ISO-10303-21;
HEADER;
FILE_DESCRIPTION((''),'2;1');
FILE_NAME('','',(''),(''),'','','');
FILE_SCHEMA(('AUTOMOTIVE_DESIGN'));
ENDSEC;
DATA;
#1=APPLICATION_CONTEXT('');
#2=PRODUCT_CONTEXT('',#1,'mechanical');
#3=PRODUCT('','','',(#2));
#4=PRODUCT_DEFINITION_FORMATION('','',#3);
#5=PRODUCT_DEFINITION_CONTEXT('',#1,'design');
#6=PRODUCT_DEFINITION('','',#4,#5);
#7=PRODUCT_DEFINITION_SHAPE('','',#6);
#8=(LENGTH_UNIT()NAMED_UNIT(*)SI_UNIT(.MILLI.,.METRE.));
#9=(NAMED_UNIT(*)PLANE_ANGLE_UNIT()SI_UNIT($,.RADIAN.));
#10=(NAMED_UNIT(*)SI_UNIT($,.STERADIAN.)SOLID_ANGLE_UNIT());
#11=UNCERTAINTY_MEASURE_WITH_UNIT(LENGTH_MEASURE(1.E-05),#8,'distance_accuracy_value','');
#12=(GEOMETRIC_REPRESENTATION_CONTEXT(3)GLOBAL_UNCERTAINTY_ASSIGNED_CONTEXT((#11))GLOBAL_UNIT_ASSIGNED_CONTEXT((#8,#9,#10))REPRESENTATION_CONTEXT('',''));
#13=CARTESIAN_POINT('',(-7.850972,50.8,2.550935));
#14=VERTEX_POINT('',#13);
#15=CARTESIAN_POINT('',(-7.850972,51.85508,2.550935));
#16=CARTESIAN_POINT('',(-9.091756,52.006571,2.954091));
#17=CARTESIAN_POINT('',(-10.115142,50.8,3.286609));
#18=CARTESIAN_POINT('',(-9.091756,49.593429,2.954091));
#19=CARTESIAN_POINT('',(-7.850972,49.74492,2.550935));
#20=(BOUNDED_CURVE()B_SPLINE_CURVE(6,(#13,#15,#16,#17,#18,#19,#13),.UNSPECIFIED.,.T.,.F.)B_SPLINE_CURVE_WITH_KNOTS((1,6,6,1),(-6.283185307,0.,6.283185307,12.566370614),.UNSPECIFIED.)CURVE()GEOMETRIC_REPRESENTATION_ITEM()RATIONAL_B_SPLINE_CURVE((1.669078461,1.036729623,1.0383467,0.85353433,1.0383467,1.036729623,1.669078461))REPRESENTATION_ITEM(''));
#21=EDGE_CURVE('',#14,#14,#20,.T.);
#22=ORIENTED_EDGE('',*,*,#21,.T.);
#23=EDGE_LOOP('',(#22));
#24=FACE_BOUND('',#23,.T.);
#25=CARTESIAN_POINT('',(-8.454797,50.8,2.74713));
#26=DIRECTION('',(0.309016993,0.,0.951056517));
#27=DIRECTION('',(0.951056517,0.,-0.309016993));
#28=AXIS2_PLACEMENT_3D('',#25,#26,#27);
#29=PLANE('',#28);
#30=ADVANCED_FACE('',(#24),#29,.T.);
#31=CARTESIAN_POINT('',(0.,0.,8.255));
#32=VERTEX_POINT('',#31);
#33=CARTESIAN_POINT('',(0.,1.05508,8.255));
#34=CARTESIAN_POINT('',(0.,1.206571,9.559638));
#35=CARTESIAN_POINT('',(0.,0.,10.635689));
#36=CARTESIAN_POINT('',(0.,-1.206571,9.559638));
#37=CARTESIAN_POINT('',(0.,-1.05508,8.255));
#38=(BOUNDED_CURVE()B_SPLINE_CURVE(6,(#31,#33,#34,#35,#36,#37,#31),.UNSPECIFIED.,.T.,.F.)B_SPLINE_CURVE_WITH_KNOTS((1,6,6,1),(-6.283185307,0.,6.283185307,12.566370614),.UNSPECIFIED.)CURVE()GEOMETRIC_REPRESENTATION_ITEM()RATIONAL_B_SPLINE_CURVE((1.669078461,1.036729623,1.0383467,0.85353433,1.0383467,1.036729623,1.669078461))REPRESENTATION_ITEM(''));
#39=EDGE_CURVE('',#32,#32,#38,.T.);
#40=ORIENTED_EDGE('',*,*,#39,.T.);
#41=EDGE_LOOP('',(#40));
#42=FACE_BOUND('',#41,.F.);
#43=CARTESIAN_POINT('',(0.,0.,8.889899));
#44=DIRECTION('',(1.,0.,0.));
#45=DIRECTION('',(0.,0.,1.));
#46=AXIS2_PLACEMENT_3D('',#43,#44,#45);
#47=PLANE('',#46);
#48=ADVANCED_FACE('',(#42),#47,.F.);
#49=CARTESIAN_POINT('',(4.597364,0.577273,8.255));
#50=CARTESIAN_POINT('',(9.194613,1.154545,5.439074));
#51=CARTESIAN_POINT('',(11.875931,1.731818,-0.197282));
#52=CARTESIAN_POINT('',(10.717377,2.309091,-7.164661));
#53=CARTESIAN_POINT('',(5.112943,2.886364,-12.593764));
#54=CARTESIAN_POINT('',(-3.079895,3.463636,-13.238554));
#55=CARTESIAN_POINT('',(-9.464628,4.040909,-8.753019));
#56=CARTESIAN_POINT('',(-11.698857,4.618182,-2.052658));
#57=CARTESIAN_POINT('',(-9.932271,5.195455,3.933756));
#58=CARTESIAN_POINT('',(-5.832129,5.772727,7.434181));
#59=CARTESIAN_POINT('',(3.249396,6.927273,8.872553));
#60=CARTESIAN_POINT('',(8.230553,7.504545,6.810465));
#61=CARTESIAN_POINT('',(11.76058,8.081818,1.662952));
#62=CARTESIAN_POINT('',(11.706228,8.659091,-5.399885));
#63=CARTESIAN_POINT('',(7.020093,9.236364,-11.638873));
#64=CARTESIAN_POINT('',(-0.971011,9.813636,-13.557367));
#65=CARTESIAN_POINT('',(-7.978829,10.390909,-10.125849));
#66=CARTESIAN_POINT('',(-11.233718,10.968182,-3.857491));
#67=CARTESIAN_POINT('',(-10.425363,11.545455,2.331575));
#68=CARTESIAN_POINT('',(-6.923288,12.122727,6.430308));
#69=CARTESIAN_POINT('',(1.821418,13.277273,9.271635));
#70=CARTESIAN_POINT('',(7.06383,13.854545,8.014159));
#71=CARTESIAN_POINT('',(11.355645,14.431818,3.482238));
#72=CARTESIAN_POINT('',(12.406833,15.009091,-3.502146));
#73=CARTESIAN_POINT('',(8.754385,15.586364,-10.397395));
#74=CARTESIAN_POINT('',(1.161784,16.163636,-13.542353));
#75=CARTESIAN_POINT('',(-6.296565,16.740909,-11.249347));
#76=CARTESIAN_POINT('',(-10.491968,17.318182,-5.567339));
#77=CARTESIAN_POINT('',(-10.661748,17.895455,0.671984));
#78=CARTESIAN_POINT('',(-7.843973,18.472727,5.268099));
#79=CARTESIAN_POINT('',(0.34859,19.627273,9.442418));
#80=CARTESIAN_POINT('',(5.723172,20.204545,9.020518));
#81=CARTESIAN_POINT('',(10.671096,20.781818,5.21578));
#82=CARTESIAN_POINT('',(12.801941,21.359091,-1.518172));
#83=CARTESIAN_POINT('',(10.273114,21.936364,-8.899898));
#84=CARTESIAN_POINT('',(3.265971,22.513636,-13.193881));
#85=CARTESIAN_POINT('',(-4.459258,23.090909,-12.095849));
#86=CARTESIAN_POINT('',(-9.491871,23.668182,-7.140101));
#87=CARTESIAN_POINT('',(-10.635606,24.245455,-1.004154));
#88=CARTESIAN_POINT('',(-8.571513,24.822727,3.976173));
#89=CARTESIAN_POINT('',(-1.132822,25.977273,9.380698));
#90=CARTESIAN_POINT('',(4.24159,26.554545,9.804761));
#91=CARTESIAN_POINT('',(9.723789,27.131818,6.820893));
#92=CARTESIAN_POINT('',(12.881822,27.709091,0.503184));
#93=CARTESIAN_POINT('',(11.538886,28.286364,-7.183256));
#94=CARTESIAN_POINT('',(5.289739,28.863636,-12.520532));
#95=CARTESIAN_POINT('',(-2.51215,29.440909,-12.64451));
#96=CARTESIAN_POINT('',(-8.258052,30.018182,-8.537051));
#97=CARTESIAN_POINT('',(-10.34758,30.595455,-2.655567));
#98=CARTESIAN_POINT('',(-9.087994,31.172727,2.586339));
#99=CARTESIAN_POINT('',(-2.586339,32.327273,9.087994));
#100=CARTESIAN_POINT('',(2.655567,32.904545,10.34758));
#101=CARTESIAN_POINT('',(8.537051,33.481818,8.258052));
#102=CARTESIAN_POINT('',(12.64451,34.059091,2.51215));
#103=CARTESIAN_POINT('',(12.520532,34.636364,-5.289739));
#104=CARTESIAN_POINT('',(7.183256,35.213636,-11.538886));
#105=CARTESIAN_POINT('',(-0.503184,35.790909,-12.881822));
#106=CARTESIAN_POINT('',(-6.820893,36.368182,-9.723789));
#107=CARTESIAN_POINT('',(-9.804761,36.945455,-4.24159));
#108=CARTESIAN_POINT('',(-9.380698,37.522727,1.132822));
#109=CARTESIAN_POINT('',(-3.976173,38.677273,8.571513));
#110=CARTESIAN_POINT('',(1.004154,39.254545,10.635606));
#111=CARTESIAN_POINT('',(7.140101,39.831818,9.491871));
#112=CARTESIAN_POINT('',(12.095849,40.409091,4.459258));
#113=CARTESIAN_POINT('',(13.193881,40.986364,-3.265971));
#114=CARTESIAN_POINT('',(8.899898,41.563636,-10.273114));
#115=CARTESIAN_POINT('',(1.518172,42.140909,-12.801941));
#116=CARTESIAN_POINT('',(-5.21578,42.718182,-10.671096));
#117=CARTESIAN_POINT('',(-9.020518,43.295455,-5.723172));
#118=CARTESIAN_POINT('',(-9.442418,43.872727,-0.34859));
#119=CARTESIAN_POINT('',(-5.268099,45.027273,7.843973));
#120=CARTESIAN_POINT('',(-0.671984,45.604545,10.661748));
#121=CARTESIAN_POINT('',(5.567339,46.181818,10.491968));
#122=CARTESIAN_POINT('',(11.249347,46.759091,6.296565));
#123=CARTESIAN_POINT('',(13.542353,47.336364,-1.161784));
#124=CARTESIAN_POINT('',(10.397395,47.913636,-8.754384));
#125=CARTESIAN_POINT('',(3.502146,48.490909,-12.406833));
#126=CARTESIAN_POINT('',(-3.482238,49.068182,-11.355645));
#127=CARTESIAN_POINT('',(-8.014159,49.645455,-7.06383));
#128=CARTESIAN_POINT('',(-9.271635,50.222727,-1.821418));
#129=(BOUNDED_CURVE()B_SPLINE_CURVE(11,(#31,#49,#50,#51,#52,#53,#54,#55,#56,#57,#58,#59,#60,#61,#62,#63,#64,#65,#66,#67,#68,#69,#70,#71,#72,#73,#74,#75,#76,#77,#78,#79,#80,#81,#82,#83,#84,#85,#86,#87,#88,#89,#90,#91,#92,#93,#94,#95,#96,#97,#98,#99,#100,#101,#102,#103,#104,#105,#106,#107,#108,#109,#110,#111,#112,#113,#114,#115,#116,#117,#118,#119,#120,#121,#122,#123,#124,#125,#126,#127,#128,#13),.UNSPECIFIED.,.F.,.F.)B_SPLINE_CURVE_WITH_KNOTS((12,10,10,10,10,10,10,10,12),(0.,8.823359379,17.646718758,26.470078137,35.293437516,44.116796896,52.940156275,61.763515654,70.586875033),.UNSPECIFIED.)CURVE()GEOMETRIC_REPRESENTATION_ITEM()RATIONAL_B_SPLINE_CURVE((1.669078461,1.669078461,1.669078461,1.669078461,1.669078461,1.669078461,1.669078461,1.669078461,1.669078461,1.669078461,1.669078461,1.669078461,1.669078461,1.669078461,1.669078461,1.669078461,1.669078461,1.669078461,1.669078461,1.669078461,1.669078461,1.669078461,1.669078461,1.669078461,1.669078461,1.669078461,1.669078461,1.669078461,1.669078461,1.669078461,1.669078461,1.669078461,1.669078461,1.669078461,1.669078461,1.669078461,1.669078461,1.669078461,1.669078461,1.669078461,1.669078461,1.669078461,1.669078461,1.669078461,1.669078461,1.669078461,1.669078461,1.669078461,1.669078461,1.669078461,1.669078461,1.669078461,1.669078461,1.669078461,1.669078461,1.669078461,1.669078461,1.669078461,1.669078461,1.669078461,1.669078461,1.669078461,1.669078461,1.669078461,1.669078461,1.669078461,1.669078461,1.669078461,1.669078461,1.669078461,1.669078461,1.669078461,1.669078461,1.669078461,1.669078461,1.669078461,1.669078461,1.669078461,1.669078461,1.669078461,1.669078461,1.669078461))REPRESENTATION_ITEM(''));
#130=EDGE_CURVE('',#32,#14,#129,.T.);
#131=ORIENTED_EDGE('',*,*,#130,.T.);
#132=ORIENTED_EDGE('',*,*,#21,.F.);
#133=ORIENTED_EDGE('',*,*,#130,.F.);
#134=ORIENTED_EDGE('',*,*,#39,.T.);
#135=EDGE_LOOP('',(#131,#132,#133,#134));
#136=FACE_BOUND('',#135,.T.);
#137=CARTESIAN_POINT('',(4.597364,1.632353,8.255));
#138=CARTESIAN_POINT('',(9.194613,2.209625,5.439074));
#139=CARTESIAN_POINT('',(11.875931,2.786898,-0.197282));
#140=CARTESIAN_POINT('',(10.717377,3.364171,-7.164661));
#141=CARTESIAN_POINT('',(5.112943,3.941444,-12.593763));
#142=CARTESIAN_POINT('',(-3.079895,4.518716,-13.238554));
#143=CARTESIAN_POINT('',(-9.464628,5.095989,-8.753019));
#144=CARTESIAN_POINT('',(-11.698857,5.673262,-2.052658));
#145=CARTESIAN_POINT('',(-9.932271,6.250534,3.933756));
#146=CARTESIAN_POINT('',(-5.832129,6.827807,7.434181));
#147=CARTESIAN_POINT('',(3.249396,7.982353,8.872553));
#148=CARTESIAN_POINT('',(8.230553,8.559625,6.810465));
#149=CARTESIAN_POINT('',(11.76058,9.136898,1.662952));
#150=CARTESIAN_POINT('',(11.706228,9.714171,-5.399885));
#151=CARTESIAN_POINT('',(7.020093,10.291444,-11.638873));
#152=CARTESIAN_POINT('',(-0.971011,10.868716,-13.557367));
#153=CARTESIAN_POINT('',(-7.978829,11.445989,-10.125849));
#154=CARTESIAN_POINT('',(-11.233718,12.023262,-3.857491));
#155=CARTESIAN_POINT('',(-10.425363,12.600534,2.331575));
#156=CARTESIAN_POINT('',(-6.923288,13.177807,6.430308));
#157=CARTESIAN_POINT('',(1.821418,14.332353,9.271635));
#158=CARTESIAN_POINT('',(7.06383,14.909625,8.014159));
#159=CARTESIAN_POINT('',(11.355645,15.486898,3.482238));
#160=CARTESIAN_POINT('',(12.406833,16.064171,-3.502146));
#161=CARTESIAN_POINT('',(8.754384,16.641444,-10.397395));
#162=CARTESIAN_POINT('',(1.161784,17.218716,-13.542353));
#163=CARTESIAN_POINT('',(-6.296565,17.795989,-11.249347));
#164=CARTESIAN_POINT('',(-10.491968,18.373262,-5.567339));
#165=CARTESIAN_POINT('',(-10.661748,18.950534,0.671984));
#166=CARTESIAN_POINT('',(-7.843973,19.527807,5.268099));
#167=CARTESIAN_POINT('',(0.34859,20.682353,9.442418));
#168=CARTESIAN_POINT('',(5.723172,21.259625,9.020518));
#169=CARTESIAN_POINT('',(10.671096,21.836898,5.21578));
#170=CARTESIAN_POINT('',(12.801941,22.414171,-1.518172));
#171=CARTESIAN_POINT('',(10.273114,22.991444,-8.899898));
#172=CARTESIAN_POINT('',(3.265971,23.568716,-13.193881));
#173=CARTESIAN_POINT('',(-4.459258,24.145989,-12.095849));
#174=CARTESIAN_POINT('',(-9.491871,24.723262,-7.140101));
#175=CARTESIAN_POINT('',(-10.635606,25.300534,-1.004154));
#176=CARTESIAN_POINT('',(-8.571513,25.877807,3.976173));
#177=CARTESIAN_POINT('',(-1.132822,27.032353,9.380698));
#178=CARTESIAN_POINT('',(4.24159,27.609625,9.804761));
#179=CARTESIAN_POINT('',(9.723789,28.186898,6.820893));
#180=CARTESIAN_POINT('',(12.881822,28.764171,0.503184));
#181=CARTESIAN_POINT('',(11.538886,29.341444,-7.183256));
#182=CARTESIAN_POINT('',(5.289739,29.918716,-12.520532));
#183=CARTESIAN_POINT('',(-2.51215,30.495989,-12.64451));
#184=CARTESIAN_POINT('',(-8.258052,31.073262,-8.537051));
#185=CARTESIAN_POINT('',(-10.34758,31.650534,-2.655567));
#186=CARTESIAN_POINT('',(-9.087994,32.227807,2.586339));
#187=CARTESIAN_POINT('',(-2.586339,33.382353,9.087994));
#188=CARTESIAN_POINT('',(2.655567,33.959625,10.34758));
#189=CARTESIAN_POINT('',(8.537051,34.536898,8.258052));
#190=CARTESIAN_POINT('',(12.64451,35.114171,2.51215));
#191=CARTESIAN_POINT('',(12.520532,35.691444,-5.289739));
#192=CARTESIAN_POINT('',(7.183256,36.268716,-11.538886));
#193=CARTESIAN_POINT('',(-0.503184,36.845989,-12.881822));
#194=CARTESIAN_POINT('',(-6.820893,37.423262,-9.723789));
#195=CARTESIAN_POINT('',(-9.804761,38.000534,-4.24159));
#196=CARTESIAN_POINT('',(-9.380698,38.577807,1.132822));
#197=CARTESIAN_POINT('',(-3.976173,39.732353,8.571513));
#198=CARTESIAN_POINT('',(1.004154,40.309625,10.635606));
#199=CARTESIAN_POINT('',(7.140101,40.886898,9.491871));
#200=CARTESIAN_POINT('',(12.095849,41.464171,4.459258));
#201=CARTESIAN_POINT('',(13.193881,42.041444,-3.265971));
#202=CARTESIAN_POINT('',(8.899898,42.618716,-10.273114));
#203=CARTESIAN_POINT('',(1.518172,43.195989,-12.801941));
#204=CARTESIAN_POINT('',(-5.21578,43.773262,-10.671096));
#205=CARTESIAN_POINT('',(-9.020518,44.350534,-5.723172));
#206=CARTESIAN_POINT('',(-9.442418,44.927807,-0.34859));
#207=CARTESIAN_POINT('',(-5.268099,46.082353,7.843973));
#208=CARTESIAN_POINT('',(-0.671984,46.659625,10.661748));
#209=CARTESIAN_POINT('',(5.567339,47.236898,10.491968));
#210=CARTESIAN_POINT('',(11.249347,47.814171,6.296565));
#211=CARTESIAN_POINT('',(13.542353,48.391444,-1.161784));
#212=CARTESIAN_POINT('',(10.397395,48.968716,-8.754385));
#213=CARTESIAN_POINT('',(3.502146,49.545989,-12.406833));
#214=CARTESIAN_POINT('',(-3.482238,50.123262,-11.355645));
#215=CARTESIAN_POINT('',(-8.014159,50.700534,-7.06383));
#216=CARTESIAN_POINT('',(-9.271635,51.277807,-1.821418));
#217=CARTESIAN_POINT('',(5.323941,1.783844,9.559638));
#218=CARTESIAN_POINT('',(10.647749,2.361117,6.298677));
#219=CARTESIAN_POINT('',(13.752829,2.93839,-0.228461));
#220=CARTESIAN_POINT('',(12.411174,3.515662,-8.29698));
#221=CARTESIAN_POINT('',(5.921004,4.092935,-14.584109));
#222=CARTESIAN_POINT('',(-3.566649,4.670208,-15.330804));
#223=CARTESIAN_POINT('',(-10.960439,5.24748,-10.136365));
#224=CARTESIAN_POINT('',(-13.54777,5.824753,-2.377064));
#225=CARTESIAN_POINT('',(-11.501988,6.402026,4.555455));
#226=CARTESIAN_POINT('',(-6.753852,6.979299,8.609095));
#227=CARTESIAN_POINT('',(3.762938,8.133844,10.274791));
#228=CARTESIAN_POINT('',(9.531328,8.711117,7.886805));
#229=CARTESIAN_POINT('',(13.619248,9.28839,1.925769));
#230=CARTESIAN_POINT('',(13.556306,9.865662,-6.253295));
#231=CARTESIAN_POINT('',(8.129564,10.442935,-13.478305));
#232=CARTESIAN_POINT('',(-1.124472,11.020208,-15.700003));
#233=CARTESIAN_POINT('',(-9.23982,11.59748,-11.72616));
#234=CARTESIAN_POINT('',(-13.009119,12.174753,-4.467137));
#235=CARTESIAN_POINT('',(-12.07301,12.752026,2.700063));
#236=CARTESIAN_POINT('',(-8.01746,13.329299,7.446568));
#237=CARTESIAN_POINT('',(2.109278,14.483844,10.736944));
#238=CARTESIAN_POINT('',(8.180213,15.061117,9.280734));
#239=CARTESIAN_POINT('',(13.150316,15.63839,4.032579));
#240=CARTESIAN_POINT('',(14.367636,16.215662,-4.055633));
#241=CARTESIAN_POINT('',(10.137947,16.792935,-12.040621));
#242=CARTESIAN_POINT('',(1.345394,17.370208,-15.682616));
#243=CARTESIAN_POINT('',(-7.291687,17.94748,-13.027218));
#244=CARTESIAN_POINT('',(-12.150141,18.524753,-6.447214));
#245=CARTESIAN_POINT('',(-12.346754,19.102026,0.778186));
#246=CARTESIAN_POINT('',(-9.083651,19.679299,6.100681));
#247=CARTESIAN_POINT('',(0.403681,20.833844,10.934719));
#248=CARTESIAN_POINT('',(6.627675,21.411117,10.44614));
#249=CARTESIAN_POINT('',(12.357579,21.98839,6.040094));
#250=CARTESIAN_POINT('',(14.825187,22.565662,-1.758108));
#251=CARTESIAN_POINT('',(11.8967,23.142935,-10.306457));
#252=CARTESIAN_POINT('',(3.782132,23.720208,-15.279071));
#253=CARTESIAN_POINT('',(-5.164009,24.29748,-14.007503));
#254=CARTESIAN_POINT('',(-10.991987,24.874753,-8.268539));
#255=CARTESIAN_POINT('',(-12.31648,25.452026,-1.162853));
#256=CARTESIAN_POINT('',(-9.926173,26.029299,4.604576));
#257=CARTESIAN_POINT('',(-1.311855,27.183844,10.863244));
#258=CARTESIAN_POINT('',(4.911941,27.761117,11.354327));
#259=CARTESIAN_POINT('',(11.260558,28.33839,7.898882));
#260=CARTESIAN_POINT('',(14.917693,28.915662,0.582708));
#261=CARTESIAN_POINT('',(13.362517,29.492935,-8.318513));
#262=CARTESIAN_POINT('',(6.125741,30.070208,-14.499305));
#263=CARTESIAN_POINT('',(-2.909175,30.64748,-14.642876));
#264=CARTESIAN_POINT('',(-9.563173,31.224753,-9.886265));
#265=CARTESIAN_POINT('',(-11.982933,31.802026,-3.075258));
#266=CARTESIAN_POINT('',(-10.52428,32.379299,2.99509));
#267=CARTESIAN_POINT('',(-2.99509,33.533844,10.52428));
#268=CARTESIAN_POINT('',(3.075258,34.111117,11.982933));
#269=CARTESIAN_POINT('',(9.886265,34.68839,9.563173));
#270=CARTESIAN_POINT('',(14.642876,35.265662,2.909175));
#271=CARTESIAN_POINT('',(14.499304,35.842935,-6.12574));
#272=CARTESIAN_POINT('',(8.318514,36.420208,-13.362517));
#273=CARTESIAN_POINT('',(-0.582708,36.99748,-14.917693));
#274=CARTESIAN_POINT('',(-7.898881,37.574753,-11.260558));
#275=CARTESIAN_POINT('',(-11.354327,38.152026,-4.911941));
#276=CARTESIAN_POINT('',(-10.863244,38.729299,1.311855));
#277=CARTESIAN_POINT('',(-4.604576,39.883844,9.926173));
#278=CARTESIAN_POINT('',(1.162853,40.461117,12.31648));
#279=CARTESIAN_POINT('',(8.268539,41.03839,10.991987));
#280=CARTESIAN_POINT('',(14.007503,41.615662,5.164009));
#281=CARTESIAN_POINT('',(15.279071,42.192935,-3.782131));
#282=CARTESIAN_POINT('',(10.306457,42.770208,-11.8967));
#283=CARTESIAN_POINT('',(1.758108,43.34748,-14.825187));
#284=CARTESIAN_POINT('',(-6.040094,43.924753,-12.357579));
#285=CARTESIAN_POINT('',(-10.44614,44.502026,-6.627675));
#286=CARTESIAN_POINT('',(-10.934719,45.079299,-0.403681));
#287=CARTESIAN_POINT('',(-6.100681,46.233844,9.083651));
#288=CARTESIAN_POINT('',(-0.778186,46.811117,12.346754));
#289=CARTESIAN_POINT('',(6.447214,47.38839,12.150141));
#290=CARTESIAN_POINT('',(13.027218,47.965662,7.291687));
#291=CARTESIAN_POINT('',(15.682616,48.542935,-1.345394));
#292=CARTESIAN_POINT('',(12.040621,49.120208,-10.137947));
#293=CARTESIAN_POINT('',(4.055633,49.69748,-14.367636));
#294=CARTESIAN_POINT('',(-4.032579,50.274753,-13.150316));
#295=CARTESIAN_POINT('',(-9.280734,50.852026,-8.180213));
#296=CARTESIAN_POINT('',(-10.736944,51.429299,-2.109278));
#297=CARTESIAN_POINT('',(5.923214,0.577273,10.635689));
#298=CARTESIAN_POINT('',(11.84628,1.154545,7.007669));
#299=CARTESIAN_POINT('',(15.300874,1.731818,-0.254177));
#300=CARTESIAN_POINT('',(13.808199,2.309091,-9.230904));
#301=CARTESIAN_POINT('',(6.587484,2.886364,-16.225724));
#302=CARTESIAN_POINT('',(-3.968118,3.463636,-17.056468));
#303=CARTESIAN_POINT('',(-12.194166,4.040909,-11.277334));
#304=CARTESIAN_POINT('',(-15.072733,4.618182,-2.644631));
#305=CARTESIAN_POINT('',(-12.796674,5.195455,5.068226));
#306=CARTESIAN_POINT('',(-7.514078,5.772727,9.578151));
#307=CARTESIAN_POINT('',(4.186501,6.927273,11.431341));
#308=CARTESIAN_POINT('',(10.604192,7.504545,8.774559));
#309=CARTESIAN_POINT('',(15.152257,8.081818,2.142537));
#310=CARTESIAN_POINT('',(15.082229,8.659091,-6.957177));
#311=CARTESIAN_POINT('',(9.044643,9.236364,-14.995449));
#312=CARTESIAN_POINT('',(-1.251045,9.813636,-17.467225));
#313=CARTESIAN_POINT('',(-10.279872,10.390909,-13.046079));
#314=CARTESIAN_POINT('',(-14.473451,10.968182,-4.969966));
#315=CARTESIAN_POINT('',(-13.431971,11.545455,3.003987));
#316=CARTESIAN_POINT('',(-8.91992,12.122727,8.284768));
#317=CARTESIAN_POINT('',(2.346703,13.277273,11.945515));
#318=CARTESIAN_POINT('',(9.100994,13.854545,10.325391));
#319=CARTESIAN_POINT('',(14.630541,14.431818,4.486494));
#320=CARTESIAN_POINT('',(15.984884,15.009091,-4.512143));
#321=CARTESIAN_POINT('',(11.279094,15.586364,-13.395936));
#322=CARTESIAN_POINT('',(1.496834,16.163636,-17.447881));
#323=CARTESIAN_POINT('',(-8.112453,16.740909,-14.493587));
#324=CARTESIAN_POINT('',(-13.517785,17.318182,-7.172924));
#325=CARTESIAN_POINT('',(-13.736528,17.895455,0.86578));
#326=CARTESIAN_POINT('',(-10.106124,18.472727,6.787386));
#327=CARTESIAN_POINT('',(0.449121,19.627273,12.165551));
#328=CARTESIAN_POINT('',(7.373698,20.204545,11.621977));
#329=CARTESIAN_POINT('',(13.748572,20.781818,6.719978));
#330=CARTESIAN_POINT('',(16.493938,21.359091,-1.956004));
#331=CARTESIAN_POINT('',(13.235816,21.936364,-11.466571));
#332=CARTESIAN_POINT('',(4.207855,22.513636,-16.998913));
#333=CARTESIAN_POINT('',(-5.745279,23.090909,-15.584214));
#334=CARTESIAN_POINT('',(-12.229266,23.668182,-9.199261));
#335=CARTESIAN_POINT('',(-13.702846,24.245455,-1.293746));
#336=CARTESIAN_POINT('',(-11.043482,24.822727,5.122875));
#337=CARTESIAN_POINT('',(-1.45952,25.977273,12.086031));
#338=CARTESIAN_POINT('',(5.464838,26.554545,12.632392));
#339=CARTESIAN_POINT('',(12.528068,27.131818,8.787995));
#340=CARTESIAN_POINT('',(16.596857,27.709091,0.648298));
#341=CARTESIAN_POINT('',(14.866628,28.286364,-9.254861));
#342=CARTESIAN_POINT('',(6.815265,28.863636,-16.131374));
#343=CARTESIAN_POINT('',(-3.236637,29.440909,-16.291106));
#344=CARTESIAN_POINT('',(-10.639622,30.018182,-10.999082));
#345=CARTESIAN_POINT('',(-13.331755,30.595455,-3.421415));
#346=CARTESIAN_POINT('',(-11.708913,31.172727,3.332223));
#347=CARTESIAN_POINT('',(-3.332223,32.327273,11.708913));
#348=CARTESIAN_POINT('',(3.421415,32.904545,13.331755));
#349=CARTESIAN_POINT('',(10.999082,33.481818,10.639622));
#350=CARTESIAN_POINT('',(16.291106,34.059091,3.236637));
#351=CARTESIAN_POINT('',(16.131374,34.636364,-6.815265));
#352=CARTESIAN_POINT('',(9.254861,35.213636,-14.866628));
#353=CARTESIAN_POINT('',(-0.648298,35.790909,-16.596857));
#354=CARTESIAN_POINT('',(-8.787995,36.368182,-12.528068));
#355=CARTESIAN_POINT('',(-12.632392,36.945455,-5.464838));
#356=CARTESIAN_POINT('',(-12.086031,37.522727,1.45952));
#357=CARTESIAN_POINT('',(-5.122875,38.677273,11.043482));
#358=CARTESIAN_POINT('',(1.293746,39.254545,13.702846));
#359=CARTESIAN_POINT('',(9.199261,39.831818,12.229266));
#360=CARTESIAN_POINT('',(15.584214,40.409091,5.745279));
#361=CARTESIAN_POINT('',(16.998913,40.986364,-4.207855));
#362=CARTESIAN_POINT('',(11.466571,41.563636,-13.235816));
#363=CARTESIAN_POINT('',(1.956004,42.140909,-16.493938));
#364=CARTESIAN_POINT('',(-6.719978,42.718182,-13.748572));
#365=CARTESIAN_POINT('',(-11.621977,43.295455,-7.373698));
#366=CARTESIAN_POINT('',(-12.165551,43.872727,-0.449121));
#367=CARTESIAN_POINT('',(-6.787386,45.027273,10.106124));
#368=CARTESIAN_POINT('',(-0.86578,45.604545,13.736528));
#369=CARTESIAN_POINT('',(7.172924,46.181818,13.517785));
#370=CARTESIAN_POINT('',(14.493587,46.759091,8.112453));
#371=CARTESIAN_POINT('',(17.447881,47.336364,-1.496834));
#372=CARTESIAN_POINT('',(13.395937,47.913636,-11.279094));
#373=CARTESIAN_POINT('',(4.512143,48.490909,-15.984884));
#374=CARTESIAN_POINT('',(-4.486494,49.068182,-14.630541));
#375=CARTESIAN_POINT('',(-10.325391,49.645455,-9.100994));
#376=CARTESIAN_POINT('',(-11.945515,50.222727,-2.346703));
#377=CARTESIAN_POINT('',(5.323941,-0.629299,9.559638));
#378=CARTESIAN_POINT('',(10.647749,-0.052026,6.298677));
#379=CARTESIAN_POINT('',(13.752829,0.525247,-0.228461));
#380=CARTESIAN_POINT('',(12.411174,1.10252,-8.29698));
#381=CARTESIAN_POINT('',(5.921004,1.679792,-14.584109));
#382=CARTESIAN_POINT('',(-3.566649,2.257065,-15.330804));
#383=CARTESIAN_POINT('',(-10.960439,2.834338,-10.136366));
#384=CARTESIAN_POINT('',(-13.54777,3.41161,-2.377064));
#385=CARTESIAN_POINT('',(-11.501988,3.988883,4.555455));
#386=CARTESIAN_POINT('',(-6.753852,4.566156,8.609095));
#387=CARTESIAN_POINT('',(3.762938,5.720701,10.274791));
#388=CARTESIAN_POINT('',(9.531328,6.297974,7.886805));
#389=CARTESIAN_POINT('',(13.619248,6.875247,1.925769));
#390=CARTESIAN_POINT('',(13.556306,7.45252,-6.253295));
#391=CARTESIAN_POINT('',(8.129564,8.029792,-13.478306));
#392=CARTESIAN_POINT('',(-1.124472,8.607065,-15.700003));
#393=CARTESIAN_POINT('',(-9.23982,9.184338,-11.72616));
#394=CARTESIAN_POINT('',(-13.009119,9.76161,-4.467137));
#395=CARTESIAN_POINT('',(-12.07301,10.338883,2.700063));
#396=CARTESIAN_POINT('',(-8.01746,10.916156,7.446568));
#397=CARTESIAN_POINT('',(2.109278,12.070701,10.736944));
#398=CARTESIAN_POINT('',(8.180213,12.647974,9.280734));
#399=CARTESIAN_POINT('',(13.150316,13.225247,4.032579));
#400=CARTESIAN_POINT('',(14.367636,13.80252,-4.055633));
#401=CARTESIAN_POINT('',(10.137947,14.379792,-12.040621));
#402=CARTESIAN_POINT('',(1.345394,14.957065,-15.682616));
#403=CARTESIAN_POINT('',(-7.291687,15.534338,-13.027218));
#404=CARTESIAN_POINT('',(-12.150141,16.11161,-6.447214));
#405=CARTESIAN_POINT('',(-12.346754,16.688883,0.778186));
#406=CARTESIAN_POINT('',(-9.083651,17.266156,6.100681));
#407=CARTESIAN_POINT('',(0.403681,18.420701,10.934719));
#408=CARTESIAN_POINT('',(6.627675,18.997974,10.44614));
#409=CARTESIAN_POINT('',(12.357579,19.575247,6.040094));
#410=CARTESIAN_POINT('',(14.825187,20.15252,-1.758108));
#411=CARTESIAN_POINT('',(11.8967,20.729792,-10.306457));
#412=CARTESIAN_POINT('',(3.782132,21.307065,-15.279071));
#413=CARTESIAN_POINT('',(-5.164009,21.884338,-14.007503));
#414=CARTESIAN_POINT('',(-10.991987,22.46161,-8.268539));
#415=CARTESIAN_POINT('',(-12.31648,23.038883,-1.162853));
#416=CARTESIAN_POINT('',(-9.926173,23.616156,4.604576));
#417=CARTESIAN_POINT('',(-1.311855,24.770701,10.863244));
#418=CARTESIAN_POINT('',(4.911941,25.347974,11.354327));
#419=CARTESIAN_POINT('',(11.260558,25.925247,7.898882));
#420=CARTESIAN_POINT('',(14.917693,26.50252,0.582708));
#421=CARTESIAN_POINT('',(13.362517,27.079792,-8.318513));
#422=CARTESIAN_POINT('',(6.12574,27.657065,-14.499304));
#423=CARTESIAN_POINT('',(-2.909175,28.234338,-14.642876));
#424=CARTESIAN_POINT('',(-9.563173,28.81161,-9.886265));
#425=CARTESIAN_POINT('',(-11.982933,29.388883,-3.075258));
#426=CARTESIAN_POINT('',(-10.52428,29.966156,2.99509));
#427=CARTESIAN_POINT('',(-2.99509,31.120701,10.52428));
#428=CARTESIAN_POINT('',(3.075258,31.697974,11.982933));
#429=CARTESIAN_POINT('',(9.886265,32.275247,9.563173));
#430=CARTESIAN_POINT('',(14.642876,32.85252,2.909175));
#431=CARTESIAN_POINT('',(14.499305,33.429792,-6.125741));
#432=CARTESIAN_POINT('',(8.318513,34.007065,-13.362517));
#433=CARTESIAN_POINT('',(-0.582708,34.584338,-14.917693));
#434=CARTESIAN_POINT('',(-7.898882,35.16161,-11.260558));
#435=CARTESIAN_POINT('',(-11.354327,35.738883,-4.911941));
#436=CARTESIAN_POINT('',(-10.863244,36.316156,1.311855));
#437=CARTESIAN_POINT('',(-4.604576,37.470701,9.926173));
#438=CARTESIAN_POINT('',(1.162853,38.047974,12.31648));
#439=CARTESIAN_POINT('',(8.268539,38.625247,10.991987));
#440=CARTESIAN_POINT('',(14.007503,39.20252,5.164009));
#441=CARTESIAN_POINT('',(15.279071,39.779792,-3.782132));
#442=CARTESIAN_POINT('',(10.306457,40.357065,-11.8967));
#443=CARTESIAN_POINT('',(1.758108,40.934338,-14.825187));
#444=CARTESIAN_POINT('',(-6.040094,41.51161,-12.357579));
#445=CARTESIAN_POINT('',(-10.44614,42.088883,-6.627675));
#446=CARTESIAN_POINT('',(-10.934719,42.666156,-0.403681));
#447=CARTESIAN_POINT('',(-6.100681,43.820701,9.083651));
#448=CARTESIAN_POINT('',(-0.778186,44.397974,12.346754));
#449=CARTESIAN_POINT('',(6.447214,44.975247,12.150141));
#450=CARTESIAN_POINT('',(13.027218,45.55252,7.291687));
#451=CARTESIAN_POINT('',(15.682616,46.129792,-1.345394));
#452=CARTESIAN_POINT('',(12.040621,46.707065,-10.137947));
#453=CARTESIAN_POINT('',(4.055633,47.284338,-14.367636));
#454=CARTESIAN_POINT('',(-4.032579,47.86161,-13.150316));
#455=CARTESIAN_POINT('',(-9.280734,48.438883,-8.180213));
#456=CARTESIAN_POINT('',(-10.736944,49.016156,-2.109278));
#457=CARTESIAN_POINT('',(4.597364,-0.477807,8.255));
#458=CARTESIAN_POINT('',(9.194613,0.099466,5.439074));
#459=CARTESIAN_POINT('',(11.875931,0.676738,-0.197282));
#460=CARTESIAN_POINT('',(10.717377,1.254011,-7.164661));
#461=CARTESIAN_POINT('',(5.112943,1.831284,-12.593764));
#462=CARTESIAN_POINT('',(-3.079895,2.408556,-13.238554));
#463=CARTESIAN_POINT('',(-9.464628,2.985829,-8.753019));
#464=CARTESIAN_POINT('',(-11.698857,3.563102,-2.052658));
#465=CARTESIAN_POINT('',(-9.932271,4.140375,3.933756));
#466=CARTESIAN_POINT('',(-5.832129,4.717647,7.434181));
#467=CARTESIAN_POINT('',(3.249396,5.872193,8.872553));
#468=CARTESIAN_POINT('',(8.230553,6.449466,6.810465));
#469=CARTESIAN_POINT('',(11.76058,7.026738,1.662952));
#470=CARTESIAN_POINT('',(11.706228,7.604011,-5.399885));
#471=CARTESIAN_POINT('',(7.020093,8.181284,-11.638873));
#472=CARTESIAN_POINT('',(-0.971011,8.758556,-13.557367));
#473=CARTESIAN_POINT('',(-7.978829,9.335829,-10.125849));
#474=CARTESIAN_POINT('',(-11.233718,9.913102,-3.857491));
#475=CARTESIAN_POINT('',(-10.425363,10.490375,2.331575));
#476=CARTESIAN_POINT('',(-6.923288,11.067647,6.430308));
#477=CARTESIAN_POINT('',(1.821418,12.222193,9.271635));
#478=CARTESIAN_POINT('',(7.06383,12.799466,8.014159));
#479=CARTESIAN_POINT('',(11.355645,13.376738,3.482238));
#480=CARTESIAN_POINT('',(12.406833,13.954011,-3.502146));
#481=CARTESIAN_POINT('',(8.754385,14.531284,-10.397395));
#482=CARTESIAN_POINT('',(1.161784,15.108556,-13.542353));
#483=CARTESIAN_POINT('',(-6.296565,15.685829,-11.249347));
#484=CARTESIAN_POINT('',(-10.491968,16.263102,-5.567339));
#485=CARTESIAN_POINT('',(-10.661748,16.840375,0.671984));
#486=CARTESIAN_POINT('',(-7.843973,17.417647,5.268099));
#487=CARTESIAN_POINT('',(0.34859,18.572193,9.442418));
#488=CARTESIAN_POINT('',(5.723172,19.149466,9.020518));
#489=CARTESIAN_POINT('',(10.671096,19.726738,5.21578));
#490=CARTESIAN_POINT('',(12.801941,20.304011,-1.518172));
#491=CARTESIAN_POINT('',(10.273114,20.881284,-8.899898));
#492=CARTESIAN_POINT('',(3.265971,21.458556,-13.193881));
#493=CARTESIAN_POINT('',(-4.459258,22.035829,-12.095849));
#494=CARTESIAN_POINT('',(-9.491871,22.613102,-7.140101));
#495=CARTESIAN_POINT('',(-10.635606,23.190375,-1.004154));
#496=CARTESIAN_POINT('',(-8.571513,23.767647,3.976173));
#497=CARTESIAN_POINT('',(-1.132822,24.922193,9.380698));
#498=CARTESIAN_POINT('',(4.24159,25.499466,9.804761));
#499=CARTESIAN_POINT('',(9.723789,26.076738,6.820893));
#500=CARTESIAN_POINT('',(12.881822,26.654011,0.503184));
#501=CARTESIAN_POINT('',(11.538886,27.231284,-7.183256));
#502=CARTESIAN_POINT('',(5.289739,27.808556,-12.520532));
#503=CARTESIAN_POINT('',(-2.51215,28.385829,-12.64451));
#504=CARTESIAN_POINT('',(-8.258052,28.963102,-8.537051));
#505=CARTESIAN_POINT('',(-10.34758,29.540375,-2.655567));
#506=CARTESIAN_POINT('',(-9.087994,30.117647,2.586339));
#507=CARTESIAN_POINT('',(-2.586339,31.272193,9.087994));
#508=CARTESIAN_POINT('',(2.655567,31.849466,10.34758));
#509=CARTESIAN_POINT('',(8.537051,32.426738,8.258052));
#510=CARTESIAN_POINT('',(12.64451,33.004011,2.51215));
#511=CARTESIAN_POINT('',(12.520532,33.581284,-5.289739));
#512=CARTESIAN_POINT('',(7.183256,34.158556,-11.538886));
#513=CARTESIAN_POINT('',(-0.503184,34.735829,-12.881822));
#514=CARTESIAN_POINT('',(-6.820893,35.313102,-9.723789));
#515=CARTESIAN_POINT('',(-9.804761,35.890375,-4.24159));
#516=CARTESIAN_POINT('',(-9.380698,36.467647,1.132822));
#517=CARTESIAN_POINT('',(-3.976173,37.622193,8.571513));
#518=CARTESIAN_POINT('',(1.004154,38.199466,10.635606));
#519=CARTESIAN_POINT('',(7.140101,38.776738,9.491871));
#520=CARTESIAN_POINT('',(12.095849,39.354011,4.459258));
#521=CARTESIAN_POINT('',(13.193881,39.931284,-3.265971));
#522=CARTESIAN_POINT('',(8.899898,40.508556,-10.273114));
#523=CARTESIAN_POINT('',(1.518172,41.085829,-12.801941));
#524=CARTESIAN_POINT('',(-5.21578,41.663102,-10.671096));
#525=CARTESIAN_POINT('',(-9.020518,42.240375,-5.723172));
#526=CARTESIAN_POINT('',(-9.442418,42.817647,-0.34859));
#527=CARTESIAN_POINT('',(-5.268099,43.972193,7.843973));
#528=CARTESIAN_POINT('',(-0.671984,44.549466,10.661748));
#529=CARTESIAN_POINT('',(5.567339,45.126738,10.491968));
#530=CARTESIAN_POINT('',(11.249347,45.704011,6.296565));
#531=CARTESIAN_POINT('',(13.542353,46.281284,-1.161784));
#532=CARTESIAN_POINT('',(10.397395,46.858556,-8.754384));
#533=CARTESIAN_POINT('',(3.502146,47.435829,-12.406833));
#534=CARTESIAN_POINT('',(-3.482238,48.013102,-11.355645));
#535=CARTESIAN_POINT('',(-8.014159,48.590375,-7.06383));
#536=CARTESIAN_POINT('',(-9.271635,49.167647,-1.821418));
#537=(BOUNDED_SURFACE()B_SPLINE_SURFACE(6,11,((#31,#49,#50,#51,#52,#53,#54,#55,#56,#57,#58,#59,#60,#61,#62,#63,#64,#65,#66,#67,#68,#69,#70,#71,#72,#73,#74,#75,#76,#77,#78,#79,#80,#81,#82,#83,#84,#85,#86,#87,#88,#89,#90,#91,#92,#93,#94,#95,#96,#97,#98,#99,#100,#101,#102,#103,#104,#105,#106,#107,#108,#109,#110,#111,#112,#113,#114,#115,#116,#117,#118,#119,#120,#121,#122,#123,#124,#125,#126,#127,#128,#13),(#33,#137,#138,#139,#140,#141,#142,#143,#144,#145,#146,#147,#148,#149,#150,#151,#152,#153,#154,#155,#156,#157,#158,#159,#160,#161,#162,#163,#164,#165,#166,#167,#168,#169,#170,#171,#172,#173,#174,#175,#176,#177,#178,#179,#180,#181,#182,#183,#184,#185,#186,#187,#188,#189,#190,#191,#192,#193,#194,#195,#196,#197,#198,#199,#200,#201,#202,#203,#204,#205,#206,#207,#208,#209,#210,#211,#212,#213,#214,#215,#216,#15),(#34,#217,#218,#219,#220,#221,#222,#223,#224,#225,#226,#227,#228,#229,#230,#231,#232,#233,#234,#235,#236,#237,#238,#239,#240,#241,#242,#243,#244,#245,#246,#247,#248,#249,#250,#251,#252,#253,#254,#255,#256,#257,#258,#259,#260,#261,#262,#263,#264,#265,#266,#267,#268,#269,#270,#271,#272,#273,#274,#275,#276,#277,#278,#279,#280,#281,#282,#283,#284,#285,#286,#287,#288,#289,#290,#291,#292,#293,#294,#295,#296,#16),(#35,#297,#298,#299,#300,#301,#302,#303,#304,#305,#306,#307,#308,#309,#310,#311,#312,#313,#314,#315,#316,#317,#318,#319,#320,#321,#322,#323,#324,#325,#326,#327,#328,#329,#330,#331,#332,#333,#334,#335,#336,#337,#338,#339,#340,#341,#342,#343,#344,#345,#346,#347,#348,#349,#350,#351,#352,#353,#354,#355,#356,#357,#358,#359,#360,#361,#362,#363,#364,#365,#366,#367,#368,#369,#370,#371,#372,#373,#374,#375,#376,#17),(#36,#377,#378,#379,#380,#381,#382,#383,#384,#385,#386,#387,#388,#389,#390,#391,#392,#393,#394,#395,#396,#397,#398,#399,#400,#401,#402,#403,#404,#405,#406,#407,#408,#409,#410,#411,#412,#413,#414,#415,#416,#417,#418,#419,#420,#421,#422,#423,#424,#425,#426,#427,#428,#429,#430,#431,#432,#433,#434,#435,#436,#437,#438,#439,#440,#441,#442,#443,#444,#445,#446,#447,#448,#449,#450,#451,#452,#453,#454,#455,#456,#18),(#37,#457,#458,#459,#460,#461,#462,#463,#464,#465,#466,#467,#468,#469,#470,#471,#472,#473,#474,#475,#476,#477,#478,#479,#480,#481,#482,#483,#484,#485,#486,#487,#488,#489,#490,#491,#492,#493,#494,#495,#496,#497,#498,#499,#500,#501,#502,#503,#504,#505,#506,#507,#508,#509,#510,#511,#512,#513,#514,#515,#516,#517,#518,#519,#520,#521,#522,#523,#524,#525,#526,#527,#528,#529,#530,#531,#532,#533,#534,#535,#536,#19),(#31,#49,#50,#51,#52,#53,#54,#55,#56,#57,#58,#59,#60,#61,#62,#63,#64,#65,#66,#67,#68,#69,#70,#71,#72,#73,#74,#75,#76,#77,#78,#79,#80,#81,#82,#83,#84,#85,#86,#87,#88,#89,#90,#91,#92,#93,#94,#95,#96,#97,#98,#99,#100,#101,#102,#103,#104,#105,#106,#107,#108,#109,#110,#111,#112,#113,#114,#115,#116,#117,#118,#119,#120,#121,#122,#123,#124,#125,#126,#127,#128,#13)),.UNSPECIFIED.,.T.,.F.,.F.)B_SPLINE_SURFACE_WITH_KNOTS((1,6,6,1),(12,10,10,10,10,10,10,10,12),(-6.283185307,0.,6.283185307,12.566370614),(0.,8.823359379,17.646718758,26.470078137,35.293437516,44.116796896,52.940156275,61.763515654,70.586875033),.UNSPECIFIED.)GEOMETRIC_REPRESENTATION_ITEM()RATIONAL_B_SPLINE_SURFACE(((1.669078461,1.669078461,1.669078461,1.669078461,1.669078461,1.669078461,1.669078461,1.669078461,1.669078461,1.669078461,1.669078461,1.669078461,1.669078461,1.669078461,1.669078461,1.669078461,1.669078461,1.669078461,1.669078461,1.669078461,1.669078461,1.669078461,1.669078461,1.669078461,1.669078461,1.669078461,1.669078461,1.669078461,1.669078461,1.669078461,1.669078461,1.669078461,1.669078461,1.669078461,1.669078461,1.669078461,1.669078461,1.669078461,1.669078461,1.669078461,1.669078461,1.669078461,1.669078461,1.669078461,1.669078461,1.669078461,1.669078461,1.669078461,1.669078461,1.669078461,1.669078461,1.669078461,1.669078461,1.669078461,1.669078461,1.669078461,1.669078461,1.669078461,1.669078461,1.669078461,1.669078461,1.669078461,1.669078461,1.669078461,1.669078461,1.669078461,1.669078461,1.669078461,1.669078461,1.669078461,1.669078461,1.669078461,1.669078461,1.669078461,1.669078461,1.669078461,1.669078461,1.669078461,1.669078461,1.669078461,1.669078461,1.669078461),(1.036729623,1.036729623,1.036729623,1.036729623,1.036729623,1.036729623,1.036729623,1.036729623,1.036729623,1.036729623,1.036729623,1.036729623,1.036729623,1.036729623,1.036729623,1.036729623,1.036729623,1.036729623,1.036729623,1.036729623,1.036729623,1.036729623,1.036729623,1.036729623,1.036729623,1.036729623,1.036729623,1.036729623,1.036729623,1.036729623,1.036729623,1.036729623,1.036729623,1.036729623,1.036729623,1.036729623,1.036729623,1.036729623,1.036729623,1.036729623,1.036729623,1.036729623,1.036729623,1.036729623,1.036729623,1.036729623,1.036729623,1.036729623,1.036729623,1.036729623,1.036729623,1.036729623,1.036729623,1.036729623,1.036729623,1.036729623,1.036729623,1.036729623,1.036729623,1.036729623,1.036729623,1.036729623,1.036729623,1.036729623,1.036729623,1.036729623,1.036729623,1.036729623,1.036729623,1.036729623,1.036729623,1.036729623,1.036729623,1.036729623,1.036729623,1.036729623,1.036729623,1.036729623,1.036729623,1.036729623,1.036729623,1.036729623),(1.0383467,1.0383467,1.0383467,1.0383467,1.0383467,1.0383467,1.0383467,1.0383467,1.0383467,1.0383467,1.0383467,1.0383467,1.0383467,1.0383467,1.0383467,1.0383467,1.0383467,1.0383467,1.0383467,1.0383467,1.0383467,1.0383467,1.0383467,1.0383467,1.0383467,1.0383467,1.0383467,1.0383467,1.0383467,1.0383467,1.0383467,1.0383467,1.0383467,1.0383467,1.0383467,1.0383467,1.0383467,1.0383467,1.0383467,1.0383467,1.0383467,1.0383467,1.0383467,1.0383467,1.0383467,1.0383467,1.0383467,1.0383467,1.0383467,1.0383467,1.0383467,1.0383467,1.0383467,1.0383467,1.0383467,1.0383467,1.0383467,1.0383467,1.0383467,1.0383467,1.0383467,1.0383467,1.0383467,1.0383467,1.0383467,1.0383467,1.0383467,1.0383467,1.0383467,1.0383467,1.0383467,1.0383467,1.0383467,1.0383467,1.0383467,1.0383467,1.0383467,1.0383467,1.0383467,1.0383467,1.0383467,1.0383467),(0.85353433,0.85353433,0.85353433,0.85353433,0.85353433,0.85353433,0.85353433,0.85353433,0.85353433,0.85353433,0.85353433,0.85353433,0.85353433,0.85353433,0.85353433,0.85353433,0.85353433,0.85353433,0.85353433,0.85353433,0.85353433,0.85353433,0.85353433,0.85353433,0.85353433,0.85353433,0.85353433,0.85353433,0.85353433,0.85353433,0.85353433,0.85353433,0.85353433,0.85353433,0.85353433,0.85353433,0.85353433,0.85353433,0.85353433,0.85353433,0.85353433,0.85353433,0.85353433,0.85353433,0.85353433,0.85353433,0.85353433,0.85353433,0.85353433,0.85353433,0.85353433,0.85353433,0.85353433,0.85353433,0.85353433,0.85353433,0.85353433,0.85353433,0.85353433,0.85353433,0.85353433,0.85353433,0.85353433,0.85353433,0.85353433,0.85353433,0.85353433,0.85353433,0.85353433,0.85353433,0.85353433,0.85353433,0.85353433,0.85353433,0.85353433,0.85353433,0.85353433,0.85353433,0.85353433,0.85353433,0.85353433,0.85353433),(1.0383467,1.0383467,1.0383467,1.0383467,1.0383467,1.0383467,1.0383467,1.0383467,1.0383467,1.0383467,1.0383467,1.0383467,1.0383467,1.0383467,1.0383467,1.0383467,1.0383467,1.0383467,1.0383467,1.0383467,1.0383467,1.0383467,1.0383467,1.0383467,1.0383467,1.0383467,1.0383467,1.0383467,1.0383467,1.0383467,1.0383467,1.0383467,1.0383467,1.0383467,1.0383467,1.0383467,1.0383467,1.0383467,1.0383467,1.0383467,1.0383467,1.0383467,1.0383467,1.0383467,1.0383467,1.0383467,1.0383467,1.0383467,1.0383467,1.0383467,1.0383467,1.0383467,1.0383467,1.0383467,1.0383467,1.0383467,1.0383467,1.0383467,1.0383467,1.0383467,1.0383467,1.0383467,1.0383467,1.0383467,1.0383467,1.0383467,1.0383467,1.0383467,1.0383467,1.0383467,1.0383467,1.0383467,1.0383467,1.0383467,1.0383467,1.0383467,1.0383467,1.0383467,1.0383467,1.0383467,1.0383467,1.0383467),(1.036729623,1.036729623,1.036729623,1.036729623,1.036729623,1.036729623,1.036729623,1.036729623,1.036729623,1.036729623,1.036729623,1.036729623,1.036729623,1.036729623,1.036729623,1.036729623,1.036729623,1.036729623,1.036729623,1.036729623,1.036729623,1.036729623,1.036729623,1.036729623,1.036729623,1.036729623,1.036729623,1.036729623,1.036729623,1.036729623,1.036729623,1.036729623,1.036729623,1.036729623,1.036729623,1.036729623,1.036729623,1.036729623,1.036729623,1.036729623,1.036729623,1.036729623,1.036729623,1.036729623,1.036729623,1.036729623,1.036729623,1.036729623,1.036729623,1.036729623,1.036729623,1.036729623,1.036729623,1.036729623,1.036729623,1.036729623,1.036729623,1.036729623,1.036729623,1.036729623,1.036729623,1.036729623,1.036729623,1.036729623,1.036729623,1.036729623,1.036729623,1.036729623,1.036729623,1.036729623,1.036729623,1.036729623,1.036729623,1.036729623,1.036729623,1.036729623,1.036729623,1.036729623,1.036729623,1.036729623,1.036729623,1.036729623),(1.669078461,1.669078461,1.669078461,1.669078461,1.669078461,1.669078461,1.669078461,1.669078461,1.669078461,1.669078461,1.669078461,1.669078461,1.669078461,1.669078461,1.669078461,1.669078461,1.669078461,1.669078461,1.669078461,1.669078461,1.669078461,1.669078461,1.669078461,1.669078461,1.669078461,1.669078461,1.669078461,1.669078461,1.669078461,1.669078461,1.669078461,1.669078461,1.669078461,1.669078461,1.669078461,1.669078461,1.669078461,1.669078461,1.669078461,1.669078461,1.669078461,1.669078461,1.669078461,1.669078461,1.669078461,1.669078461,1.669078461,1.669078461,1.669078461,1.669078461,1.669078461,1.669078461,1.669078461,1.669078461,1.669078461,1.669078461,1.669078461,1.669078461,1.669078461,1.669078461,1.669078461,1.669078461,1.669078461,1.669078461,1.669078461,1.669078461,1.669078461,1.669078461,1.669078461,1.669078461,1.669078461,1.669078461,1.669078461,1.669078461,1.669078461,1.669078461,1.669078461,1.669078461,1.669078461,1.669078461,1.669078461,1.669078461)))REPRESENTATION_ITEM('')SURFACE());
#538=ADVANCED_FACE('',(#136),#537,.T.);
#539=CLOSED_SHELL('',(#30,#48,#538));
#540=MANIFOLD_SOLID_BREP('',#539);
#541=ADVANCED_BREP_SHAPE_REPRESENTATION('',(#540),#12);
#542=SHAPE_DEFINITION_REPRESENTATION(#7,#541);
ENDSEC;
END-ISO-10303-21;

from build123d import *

# Parameters (mm, degrees)
SWEEP1_PITCH  = 6.512820513
SWEEP1_HEIGHT = 50.8
SWEEP1_RADIUS = 8.89
SKETCH2_R     = 0.635


with BuildPart() as part:
    # Sweep1: sweep along a helix
    with BuildLine() as sweep1_path:
        Helix(SWEEP1_PITCH, SWEEP1_HEIGHT, SWEEP1_RADIUS, center=(0, 0, 0), direction=(0, 1, 0))
    # Sketch2 → Sweep1 (sweep)
    with BuildSketch(Plane(origin=(0, 0, 0), x_dir=(0, 0, -1), z_dir=(1, 0, 0))):
        with Locations((-8.89, 0)):
            Circle(SKETCH2_R)
    sweep(path=sweep1_path.line, is_frenet=True)


solid = part.part
